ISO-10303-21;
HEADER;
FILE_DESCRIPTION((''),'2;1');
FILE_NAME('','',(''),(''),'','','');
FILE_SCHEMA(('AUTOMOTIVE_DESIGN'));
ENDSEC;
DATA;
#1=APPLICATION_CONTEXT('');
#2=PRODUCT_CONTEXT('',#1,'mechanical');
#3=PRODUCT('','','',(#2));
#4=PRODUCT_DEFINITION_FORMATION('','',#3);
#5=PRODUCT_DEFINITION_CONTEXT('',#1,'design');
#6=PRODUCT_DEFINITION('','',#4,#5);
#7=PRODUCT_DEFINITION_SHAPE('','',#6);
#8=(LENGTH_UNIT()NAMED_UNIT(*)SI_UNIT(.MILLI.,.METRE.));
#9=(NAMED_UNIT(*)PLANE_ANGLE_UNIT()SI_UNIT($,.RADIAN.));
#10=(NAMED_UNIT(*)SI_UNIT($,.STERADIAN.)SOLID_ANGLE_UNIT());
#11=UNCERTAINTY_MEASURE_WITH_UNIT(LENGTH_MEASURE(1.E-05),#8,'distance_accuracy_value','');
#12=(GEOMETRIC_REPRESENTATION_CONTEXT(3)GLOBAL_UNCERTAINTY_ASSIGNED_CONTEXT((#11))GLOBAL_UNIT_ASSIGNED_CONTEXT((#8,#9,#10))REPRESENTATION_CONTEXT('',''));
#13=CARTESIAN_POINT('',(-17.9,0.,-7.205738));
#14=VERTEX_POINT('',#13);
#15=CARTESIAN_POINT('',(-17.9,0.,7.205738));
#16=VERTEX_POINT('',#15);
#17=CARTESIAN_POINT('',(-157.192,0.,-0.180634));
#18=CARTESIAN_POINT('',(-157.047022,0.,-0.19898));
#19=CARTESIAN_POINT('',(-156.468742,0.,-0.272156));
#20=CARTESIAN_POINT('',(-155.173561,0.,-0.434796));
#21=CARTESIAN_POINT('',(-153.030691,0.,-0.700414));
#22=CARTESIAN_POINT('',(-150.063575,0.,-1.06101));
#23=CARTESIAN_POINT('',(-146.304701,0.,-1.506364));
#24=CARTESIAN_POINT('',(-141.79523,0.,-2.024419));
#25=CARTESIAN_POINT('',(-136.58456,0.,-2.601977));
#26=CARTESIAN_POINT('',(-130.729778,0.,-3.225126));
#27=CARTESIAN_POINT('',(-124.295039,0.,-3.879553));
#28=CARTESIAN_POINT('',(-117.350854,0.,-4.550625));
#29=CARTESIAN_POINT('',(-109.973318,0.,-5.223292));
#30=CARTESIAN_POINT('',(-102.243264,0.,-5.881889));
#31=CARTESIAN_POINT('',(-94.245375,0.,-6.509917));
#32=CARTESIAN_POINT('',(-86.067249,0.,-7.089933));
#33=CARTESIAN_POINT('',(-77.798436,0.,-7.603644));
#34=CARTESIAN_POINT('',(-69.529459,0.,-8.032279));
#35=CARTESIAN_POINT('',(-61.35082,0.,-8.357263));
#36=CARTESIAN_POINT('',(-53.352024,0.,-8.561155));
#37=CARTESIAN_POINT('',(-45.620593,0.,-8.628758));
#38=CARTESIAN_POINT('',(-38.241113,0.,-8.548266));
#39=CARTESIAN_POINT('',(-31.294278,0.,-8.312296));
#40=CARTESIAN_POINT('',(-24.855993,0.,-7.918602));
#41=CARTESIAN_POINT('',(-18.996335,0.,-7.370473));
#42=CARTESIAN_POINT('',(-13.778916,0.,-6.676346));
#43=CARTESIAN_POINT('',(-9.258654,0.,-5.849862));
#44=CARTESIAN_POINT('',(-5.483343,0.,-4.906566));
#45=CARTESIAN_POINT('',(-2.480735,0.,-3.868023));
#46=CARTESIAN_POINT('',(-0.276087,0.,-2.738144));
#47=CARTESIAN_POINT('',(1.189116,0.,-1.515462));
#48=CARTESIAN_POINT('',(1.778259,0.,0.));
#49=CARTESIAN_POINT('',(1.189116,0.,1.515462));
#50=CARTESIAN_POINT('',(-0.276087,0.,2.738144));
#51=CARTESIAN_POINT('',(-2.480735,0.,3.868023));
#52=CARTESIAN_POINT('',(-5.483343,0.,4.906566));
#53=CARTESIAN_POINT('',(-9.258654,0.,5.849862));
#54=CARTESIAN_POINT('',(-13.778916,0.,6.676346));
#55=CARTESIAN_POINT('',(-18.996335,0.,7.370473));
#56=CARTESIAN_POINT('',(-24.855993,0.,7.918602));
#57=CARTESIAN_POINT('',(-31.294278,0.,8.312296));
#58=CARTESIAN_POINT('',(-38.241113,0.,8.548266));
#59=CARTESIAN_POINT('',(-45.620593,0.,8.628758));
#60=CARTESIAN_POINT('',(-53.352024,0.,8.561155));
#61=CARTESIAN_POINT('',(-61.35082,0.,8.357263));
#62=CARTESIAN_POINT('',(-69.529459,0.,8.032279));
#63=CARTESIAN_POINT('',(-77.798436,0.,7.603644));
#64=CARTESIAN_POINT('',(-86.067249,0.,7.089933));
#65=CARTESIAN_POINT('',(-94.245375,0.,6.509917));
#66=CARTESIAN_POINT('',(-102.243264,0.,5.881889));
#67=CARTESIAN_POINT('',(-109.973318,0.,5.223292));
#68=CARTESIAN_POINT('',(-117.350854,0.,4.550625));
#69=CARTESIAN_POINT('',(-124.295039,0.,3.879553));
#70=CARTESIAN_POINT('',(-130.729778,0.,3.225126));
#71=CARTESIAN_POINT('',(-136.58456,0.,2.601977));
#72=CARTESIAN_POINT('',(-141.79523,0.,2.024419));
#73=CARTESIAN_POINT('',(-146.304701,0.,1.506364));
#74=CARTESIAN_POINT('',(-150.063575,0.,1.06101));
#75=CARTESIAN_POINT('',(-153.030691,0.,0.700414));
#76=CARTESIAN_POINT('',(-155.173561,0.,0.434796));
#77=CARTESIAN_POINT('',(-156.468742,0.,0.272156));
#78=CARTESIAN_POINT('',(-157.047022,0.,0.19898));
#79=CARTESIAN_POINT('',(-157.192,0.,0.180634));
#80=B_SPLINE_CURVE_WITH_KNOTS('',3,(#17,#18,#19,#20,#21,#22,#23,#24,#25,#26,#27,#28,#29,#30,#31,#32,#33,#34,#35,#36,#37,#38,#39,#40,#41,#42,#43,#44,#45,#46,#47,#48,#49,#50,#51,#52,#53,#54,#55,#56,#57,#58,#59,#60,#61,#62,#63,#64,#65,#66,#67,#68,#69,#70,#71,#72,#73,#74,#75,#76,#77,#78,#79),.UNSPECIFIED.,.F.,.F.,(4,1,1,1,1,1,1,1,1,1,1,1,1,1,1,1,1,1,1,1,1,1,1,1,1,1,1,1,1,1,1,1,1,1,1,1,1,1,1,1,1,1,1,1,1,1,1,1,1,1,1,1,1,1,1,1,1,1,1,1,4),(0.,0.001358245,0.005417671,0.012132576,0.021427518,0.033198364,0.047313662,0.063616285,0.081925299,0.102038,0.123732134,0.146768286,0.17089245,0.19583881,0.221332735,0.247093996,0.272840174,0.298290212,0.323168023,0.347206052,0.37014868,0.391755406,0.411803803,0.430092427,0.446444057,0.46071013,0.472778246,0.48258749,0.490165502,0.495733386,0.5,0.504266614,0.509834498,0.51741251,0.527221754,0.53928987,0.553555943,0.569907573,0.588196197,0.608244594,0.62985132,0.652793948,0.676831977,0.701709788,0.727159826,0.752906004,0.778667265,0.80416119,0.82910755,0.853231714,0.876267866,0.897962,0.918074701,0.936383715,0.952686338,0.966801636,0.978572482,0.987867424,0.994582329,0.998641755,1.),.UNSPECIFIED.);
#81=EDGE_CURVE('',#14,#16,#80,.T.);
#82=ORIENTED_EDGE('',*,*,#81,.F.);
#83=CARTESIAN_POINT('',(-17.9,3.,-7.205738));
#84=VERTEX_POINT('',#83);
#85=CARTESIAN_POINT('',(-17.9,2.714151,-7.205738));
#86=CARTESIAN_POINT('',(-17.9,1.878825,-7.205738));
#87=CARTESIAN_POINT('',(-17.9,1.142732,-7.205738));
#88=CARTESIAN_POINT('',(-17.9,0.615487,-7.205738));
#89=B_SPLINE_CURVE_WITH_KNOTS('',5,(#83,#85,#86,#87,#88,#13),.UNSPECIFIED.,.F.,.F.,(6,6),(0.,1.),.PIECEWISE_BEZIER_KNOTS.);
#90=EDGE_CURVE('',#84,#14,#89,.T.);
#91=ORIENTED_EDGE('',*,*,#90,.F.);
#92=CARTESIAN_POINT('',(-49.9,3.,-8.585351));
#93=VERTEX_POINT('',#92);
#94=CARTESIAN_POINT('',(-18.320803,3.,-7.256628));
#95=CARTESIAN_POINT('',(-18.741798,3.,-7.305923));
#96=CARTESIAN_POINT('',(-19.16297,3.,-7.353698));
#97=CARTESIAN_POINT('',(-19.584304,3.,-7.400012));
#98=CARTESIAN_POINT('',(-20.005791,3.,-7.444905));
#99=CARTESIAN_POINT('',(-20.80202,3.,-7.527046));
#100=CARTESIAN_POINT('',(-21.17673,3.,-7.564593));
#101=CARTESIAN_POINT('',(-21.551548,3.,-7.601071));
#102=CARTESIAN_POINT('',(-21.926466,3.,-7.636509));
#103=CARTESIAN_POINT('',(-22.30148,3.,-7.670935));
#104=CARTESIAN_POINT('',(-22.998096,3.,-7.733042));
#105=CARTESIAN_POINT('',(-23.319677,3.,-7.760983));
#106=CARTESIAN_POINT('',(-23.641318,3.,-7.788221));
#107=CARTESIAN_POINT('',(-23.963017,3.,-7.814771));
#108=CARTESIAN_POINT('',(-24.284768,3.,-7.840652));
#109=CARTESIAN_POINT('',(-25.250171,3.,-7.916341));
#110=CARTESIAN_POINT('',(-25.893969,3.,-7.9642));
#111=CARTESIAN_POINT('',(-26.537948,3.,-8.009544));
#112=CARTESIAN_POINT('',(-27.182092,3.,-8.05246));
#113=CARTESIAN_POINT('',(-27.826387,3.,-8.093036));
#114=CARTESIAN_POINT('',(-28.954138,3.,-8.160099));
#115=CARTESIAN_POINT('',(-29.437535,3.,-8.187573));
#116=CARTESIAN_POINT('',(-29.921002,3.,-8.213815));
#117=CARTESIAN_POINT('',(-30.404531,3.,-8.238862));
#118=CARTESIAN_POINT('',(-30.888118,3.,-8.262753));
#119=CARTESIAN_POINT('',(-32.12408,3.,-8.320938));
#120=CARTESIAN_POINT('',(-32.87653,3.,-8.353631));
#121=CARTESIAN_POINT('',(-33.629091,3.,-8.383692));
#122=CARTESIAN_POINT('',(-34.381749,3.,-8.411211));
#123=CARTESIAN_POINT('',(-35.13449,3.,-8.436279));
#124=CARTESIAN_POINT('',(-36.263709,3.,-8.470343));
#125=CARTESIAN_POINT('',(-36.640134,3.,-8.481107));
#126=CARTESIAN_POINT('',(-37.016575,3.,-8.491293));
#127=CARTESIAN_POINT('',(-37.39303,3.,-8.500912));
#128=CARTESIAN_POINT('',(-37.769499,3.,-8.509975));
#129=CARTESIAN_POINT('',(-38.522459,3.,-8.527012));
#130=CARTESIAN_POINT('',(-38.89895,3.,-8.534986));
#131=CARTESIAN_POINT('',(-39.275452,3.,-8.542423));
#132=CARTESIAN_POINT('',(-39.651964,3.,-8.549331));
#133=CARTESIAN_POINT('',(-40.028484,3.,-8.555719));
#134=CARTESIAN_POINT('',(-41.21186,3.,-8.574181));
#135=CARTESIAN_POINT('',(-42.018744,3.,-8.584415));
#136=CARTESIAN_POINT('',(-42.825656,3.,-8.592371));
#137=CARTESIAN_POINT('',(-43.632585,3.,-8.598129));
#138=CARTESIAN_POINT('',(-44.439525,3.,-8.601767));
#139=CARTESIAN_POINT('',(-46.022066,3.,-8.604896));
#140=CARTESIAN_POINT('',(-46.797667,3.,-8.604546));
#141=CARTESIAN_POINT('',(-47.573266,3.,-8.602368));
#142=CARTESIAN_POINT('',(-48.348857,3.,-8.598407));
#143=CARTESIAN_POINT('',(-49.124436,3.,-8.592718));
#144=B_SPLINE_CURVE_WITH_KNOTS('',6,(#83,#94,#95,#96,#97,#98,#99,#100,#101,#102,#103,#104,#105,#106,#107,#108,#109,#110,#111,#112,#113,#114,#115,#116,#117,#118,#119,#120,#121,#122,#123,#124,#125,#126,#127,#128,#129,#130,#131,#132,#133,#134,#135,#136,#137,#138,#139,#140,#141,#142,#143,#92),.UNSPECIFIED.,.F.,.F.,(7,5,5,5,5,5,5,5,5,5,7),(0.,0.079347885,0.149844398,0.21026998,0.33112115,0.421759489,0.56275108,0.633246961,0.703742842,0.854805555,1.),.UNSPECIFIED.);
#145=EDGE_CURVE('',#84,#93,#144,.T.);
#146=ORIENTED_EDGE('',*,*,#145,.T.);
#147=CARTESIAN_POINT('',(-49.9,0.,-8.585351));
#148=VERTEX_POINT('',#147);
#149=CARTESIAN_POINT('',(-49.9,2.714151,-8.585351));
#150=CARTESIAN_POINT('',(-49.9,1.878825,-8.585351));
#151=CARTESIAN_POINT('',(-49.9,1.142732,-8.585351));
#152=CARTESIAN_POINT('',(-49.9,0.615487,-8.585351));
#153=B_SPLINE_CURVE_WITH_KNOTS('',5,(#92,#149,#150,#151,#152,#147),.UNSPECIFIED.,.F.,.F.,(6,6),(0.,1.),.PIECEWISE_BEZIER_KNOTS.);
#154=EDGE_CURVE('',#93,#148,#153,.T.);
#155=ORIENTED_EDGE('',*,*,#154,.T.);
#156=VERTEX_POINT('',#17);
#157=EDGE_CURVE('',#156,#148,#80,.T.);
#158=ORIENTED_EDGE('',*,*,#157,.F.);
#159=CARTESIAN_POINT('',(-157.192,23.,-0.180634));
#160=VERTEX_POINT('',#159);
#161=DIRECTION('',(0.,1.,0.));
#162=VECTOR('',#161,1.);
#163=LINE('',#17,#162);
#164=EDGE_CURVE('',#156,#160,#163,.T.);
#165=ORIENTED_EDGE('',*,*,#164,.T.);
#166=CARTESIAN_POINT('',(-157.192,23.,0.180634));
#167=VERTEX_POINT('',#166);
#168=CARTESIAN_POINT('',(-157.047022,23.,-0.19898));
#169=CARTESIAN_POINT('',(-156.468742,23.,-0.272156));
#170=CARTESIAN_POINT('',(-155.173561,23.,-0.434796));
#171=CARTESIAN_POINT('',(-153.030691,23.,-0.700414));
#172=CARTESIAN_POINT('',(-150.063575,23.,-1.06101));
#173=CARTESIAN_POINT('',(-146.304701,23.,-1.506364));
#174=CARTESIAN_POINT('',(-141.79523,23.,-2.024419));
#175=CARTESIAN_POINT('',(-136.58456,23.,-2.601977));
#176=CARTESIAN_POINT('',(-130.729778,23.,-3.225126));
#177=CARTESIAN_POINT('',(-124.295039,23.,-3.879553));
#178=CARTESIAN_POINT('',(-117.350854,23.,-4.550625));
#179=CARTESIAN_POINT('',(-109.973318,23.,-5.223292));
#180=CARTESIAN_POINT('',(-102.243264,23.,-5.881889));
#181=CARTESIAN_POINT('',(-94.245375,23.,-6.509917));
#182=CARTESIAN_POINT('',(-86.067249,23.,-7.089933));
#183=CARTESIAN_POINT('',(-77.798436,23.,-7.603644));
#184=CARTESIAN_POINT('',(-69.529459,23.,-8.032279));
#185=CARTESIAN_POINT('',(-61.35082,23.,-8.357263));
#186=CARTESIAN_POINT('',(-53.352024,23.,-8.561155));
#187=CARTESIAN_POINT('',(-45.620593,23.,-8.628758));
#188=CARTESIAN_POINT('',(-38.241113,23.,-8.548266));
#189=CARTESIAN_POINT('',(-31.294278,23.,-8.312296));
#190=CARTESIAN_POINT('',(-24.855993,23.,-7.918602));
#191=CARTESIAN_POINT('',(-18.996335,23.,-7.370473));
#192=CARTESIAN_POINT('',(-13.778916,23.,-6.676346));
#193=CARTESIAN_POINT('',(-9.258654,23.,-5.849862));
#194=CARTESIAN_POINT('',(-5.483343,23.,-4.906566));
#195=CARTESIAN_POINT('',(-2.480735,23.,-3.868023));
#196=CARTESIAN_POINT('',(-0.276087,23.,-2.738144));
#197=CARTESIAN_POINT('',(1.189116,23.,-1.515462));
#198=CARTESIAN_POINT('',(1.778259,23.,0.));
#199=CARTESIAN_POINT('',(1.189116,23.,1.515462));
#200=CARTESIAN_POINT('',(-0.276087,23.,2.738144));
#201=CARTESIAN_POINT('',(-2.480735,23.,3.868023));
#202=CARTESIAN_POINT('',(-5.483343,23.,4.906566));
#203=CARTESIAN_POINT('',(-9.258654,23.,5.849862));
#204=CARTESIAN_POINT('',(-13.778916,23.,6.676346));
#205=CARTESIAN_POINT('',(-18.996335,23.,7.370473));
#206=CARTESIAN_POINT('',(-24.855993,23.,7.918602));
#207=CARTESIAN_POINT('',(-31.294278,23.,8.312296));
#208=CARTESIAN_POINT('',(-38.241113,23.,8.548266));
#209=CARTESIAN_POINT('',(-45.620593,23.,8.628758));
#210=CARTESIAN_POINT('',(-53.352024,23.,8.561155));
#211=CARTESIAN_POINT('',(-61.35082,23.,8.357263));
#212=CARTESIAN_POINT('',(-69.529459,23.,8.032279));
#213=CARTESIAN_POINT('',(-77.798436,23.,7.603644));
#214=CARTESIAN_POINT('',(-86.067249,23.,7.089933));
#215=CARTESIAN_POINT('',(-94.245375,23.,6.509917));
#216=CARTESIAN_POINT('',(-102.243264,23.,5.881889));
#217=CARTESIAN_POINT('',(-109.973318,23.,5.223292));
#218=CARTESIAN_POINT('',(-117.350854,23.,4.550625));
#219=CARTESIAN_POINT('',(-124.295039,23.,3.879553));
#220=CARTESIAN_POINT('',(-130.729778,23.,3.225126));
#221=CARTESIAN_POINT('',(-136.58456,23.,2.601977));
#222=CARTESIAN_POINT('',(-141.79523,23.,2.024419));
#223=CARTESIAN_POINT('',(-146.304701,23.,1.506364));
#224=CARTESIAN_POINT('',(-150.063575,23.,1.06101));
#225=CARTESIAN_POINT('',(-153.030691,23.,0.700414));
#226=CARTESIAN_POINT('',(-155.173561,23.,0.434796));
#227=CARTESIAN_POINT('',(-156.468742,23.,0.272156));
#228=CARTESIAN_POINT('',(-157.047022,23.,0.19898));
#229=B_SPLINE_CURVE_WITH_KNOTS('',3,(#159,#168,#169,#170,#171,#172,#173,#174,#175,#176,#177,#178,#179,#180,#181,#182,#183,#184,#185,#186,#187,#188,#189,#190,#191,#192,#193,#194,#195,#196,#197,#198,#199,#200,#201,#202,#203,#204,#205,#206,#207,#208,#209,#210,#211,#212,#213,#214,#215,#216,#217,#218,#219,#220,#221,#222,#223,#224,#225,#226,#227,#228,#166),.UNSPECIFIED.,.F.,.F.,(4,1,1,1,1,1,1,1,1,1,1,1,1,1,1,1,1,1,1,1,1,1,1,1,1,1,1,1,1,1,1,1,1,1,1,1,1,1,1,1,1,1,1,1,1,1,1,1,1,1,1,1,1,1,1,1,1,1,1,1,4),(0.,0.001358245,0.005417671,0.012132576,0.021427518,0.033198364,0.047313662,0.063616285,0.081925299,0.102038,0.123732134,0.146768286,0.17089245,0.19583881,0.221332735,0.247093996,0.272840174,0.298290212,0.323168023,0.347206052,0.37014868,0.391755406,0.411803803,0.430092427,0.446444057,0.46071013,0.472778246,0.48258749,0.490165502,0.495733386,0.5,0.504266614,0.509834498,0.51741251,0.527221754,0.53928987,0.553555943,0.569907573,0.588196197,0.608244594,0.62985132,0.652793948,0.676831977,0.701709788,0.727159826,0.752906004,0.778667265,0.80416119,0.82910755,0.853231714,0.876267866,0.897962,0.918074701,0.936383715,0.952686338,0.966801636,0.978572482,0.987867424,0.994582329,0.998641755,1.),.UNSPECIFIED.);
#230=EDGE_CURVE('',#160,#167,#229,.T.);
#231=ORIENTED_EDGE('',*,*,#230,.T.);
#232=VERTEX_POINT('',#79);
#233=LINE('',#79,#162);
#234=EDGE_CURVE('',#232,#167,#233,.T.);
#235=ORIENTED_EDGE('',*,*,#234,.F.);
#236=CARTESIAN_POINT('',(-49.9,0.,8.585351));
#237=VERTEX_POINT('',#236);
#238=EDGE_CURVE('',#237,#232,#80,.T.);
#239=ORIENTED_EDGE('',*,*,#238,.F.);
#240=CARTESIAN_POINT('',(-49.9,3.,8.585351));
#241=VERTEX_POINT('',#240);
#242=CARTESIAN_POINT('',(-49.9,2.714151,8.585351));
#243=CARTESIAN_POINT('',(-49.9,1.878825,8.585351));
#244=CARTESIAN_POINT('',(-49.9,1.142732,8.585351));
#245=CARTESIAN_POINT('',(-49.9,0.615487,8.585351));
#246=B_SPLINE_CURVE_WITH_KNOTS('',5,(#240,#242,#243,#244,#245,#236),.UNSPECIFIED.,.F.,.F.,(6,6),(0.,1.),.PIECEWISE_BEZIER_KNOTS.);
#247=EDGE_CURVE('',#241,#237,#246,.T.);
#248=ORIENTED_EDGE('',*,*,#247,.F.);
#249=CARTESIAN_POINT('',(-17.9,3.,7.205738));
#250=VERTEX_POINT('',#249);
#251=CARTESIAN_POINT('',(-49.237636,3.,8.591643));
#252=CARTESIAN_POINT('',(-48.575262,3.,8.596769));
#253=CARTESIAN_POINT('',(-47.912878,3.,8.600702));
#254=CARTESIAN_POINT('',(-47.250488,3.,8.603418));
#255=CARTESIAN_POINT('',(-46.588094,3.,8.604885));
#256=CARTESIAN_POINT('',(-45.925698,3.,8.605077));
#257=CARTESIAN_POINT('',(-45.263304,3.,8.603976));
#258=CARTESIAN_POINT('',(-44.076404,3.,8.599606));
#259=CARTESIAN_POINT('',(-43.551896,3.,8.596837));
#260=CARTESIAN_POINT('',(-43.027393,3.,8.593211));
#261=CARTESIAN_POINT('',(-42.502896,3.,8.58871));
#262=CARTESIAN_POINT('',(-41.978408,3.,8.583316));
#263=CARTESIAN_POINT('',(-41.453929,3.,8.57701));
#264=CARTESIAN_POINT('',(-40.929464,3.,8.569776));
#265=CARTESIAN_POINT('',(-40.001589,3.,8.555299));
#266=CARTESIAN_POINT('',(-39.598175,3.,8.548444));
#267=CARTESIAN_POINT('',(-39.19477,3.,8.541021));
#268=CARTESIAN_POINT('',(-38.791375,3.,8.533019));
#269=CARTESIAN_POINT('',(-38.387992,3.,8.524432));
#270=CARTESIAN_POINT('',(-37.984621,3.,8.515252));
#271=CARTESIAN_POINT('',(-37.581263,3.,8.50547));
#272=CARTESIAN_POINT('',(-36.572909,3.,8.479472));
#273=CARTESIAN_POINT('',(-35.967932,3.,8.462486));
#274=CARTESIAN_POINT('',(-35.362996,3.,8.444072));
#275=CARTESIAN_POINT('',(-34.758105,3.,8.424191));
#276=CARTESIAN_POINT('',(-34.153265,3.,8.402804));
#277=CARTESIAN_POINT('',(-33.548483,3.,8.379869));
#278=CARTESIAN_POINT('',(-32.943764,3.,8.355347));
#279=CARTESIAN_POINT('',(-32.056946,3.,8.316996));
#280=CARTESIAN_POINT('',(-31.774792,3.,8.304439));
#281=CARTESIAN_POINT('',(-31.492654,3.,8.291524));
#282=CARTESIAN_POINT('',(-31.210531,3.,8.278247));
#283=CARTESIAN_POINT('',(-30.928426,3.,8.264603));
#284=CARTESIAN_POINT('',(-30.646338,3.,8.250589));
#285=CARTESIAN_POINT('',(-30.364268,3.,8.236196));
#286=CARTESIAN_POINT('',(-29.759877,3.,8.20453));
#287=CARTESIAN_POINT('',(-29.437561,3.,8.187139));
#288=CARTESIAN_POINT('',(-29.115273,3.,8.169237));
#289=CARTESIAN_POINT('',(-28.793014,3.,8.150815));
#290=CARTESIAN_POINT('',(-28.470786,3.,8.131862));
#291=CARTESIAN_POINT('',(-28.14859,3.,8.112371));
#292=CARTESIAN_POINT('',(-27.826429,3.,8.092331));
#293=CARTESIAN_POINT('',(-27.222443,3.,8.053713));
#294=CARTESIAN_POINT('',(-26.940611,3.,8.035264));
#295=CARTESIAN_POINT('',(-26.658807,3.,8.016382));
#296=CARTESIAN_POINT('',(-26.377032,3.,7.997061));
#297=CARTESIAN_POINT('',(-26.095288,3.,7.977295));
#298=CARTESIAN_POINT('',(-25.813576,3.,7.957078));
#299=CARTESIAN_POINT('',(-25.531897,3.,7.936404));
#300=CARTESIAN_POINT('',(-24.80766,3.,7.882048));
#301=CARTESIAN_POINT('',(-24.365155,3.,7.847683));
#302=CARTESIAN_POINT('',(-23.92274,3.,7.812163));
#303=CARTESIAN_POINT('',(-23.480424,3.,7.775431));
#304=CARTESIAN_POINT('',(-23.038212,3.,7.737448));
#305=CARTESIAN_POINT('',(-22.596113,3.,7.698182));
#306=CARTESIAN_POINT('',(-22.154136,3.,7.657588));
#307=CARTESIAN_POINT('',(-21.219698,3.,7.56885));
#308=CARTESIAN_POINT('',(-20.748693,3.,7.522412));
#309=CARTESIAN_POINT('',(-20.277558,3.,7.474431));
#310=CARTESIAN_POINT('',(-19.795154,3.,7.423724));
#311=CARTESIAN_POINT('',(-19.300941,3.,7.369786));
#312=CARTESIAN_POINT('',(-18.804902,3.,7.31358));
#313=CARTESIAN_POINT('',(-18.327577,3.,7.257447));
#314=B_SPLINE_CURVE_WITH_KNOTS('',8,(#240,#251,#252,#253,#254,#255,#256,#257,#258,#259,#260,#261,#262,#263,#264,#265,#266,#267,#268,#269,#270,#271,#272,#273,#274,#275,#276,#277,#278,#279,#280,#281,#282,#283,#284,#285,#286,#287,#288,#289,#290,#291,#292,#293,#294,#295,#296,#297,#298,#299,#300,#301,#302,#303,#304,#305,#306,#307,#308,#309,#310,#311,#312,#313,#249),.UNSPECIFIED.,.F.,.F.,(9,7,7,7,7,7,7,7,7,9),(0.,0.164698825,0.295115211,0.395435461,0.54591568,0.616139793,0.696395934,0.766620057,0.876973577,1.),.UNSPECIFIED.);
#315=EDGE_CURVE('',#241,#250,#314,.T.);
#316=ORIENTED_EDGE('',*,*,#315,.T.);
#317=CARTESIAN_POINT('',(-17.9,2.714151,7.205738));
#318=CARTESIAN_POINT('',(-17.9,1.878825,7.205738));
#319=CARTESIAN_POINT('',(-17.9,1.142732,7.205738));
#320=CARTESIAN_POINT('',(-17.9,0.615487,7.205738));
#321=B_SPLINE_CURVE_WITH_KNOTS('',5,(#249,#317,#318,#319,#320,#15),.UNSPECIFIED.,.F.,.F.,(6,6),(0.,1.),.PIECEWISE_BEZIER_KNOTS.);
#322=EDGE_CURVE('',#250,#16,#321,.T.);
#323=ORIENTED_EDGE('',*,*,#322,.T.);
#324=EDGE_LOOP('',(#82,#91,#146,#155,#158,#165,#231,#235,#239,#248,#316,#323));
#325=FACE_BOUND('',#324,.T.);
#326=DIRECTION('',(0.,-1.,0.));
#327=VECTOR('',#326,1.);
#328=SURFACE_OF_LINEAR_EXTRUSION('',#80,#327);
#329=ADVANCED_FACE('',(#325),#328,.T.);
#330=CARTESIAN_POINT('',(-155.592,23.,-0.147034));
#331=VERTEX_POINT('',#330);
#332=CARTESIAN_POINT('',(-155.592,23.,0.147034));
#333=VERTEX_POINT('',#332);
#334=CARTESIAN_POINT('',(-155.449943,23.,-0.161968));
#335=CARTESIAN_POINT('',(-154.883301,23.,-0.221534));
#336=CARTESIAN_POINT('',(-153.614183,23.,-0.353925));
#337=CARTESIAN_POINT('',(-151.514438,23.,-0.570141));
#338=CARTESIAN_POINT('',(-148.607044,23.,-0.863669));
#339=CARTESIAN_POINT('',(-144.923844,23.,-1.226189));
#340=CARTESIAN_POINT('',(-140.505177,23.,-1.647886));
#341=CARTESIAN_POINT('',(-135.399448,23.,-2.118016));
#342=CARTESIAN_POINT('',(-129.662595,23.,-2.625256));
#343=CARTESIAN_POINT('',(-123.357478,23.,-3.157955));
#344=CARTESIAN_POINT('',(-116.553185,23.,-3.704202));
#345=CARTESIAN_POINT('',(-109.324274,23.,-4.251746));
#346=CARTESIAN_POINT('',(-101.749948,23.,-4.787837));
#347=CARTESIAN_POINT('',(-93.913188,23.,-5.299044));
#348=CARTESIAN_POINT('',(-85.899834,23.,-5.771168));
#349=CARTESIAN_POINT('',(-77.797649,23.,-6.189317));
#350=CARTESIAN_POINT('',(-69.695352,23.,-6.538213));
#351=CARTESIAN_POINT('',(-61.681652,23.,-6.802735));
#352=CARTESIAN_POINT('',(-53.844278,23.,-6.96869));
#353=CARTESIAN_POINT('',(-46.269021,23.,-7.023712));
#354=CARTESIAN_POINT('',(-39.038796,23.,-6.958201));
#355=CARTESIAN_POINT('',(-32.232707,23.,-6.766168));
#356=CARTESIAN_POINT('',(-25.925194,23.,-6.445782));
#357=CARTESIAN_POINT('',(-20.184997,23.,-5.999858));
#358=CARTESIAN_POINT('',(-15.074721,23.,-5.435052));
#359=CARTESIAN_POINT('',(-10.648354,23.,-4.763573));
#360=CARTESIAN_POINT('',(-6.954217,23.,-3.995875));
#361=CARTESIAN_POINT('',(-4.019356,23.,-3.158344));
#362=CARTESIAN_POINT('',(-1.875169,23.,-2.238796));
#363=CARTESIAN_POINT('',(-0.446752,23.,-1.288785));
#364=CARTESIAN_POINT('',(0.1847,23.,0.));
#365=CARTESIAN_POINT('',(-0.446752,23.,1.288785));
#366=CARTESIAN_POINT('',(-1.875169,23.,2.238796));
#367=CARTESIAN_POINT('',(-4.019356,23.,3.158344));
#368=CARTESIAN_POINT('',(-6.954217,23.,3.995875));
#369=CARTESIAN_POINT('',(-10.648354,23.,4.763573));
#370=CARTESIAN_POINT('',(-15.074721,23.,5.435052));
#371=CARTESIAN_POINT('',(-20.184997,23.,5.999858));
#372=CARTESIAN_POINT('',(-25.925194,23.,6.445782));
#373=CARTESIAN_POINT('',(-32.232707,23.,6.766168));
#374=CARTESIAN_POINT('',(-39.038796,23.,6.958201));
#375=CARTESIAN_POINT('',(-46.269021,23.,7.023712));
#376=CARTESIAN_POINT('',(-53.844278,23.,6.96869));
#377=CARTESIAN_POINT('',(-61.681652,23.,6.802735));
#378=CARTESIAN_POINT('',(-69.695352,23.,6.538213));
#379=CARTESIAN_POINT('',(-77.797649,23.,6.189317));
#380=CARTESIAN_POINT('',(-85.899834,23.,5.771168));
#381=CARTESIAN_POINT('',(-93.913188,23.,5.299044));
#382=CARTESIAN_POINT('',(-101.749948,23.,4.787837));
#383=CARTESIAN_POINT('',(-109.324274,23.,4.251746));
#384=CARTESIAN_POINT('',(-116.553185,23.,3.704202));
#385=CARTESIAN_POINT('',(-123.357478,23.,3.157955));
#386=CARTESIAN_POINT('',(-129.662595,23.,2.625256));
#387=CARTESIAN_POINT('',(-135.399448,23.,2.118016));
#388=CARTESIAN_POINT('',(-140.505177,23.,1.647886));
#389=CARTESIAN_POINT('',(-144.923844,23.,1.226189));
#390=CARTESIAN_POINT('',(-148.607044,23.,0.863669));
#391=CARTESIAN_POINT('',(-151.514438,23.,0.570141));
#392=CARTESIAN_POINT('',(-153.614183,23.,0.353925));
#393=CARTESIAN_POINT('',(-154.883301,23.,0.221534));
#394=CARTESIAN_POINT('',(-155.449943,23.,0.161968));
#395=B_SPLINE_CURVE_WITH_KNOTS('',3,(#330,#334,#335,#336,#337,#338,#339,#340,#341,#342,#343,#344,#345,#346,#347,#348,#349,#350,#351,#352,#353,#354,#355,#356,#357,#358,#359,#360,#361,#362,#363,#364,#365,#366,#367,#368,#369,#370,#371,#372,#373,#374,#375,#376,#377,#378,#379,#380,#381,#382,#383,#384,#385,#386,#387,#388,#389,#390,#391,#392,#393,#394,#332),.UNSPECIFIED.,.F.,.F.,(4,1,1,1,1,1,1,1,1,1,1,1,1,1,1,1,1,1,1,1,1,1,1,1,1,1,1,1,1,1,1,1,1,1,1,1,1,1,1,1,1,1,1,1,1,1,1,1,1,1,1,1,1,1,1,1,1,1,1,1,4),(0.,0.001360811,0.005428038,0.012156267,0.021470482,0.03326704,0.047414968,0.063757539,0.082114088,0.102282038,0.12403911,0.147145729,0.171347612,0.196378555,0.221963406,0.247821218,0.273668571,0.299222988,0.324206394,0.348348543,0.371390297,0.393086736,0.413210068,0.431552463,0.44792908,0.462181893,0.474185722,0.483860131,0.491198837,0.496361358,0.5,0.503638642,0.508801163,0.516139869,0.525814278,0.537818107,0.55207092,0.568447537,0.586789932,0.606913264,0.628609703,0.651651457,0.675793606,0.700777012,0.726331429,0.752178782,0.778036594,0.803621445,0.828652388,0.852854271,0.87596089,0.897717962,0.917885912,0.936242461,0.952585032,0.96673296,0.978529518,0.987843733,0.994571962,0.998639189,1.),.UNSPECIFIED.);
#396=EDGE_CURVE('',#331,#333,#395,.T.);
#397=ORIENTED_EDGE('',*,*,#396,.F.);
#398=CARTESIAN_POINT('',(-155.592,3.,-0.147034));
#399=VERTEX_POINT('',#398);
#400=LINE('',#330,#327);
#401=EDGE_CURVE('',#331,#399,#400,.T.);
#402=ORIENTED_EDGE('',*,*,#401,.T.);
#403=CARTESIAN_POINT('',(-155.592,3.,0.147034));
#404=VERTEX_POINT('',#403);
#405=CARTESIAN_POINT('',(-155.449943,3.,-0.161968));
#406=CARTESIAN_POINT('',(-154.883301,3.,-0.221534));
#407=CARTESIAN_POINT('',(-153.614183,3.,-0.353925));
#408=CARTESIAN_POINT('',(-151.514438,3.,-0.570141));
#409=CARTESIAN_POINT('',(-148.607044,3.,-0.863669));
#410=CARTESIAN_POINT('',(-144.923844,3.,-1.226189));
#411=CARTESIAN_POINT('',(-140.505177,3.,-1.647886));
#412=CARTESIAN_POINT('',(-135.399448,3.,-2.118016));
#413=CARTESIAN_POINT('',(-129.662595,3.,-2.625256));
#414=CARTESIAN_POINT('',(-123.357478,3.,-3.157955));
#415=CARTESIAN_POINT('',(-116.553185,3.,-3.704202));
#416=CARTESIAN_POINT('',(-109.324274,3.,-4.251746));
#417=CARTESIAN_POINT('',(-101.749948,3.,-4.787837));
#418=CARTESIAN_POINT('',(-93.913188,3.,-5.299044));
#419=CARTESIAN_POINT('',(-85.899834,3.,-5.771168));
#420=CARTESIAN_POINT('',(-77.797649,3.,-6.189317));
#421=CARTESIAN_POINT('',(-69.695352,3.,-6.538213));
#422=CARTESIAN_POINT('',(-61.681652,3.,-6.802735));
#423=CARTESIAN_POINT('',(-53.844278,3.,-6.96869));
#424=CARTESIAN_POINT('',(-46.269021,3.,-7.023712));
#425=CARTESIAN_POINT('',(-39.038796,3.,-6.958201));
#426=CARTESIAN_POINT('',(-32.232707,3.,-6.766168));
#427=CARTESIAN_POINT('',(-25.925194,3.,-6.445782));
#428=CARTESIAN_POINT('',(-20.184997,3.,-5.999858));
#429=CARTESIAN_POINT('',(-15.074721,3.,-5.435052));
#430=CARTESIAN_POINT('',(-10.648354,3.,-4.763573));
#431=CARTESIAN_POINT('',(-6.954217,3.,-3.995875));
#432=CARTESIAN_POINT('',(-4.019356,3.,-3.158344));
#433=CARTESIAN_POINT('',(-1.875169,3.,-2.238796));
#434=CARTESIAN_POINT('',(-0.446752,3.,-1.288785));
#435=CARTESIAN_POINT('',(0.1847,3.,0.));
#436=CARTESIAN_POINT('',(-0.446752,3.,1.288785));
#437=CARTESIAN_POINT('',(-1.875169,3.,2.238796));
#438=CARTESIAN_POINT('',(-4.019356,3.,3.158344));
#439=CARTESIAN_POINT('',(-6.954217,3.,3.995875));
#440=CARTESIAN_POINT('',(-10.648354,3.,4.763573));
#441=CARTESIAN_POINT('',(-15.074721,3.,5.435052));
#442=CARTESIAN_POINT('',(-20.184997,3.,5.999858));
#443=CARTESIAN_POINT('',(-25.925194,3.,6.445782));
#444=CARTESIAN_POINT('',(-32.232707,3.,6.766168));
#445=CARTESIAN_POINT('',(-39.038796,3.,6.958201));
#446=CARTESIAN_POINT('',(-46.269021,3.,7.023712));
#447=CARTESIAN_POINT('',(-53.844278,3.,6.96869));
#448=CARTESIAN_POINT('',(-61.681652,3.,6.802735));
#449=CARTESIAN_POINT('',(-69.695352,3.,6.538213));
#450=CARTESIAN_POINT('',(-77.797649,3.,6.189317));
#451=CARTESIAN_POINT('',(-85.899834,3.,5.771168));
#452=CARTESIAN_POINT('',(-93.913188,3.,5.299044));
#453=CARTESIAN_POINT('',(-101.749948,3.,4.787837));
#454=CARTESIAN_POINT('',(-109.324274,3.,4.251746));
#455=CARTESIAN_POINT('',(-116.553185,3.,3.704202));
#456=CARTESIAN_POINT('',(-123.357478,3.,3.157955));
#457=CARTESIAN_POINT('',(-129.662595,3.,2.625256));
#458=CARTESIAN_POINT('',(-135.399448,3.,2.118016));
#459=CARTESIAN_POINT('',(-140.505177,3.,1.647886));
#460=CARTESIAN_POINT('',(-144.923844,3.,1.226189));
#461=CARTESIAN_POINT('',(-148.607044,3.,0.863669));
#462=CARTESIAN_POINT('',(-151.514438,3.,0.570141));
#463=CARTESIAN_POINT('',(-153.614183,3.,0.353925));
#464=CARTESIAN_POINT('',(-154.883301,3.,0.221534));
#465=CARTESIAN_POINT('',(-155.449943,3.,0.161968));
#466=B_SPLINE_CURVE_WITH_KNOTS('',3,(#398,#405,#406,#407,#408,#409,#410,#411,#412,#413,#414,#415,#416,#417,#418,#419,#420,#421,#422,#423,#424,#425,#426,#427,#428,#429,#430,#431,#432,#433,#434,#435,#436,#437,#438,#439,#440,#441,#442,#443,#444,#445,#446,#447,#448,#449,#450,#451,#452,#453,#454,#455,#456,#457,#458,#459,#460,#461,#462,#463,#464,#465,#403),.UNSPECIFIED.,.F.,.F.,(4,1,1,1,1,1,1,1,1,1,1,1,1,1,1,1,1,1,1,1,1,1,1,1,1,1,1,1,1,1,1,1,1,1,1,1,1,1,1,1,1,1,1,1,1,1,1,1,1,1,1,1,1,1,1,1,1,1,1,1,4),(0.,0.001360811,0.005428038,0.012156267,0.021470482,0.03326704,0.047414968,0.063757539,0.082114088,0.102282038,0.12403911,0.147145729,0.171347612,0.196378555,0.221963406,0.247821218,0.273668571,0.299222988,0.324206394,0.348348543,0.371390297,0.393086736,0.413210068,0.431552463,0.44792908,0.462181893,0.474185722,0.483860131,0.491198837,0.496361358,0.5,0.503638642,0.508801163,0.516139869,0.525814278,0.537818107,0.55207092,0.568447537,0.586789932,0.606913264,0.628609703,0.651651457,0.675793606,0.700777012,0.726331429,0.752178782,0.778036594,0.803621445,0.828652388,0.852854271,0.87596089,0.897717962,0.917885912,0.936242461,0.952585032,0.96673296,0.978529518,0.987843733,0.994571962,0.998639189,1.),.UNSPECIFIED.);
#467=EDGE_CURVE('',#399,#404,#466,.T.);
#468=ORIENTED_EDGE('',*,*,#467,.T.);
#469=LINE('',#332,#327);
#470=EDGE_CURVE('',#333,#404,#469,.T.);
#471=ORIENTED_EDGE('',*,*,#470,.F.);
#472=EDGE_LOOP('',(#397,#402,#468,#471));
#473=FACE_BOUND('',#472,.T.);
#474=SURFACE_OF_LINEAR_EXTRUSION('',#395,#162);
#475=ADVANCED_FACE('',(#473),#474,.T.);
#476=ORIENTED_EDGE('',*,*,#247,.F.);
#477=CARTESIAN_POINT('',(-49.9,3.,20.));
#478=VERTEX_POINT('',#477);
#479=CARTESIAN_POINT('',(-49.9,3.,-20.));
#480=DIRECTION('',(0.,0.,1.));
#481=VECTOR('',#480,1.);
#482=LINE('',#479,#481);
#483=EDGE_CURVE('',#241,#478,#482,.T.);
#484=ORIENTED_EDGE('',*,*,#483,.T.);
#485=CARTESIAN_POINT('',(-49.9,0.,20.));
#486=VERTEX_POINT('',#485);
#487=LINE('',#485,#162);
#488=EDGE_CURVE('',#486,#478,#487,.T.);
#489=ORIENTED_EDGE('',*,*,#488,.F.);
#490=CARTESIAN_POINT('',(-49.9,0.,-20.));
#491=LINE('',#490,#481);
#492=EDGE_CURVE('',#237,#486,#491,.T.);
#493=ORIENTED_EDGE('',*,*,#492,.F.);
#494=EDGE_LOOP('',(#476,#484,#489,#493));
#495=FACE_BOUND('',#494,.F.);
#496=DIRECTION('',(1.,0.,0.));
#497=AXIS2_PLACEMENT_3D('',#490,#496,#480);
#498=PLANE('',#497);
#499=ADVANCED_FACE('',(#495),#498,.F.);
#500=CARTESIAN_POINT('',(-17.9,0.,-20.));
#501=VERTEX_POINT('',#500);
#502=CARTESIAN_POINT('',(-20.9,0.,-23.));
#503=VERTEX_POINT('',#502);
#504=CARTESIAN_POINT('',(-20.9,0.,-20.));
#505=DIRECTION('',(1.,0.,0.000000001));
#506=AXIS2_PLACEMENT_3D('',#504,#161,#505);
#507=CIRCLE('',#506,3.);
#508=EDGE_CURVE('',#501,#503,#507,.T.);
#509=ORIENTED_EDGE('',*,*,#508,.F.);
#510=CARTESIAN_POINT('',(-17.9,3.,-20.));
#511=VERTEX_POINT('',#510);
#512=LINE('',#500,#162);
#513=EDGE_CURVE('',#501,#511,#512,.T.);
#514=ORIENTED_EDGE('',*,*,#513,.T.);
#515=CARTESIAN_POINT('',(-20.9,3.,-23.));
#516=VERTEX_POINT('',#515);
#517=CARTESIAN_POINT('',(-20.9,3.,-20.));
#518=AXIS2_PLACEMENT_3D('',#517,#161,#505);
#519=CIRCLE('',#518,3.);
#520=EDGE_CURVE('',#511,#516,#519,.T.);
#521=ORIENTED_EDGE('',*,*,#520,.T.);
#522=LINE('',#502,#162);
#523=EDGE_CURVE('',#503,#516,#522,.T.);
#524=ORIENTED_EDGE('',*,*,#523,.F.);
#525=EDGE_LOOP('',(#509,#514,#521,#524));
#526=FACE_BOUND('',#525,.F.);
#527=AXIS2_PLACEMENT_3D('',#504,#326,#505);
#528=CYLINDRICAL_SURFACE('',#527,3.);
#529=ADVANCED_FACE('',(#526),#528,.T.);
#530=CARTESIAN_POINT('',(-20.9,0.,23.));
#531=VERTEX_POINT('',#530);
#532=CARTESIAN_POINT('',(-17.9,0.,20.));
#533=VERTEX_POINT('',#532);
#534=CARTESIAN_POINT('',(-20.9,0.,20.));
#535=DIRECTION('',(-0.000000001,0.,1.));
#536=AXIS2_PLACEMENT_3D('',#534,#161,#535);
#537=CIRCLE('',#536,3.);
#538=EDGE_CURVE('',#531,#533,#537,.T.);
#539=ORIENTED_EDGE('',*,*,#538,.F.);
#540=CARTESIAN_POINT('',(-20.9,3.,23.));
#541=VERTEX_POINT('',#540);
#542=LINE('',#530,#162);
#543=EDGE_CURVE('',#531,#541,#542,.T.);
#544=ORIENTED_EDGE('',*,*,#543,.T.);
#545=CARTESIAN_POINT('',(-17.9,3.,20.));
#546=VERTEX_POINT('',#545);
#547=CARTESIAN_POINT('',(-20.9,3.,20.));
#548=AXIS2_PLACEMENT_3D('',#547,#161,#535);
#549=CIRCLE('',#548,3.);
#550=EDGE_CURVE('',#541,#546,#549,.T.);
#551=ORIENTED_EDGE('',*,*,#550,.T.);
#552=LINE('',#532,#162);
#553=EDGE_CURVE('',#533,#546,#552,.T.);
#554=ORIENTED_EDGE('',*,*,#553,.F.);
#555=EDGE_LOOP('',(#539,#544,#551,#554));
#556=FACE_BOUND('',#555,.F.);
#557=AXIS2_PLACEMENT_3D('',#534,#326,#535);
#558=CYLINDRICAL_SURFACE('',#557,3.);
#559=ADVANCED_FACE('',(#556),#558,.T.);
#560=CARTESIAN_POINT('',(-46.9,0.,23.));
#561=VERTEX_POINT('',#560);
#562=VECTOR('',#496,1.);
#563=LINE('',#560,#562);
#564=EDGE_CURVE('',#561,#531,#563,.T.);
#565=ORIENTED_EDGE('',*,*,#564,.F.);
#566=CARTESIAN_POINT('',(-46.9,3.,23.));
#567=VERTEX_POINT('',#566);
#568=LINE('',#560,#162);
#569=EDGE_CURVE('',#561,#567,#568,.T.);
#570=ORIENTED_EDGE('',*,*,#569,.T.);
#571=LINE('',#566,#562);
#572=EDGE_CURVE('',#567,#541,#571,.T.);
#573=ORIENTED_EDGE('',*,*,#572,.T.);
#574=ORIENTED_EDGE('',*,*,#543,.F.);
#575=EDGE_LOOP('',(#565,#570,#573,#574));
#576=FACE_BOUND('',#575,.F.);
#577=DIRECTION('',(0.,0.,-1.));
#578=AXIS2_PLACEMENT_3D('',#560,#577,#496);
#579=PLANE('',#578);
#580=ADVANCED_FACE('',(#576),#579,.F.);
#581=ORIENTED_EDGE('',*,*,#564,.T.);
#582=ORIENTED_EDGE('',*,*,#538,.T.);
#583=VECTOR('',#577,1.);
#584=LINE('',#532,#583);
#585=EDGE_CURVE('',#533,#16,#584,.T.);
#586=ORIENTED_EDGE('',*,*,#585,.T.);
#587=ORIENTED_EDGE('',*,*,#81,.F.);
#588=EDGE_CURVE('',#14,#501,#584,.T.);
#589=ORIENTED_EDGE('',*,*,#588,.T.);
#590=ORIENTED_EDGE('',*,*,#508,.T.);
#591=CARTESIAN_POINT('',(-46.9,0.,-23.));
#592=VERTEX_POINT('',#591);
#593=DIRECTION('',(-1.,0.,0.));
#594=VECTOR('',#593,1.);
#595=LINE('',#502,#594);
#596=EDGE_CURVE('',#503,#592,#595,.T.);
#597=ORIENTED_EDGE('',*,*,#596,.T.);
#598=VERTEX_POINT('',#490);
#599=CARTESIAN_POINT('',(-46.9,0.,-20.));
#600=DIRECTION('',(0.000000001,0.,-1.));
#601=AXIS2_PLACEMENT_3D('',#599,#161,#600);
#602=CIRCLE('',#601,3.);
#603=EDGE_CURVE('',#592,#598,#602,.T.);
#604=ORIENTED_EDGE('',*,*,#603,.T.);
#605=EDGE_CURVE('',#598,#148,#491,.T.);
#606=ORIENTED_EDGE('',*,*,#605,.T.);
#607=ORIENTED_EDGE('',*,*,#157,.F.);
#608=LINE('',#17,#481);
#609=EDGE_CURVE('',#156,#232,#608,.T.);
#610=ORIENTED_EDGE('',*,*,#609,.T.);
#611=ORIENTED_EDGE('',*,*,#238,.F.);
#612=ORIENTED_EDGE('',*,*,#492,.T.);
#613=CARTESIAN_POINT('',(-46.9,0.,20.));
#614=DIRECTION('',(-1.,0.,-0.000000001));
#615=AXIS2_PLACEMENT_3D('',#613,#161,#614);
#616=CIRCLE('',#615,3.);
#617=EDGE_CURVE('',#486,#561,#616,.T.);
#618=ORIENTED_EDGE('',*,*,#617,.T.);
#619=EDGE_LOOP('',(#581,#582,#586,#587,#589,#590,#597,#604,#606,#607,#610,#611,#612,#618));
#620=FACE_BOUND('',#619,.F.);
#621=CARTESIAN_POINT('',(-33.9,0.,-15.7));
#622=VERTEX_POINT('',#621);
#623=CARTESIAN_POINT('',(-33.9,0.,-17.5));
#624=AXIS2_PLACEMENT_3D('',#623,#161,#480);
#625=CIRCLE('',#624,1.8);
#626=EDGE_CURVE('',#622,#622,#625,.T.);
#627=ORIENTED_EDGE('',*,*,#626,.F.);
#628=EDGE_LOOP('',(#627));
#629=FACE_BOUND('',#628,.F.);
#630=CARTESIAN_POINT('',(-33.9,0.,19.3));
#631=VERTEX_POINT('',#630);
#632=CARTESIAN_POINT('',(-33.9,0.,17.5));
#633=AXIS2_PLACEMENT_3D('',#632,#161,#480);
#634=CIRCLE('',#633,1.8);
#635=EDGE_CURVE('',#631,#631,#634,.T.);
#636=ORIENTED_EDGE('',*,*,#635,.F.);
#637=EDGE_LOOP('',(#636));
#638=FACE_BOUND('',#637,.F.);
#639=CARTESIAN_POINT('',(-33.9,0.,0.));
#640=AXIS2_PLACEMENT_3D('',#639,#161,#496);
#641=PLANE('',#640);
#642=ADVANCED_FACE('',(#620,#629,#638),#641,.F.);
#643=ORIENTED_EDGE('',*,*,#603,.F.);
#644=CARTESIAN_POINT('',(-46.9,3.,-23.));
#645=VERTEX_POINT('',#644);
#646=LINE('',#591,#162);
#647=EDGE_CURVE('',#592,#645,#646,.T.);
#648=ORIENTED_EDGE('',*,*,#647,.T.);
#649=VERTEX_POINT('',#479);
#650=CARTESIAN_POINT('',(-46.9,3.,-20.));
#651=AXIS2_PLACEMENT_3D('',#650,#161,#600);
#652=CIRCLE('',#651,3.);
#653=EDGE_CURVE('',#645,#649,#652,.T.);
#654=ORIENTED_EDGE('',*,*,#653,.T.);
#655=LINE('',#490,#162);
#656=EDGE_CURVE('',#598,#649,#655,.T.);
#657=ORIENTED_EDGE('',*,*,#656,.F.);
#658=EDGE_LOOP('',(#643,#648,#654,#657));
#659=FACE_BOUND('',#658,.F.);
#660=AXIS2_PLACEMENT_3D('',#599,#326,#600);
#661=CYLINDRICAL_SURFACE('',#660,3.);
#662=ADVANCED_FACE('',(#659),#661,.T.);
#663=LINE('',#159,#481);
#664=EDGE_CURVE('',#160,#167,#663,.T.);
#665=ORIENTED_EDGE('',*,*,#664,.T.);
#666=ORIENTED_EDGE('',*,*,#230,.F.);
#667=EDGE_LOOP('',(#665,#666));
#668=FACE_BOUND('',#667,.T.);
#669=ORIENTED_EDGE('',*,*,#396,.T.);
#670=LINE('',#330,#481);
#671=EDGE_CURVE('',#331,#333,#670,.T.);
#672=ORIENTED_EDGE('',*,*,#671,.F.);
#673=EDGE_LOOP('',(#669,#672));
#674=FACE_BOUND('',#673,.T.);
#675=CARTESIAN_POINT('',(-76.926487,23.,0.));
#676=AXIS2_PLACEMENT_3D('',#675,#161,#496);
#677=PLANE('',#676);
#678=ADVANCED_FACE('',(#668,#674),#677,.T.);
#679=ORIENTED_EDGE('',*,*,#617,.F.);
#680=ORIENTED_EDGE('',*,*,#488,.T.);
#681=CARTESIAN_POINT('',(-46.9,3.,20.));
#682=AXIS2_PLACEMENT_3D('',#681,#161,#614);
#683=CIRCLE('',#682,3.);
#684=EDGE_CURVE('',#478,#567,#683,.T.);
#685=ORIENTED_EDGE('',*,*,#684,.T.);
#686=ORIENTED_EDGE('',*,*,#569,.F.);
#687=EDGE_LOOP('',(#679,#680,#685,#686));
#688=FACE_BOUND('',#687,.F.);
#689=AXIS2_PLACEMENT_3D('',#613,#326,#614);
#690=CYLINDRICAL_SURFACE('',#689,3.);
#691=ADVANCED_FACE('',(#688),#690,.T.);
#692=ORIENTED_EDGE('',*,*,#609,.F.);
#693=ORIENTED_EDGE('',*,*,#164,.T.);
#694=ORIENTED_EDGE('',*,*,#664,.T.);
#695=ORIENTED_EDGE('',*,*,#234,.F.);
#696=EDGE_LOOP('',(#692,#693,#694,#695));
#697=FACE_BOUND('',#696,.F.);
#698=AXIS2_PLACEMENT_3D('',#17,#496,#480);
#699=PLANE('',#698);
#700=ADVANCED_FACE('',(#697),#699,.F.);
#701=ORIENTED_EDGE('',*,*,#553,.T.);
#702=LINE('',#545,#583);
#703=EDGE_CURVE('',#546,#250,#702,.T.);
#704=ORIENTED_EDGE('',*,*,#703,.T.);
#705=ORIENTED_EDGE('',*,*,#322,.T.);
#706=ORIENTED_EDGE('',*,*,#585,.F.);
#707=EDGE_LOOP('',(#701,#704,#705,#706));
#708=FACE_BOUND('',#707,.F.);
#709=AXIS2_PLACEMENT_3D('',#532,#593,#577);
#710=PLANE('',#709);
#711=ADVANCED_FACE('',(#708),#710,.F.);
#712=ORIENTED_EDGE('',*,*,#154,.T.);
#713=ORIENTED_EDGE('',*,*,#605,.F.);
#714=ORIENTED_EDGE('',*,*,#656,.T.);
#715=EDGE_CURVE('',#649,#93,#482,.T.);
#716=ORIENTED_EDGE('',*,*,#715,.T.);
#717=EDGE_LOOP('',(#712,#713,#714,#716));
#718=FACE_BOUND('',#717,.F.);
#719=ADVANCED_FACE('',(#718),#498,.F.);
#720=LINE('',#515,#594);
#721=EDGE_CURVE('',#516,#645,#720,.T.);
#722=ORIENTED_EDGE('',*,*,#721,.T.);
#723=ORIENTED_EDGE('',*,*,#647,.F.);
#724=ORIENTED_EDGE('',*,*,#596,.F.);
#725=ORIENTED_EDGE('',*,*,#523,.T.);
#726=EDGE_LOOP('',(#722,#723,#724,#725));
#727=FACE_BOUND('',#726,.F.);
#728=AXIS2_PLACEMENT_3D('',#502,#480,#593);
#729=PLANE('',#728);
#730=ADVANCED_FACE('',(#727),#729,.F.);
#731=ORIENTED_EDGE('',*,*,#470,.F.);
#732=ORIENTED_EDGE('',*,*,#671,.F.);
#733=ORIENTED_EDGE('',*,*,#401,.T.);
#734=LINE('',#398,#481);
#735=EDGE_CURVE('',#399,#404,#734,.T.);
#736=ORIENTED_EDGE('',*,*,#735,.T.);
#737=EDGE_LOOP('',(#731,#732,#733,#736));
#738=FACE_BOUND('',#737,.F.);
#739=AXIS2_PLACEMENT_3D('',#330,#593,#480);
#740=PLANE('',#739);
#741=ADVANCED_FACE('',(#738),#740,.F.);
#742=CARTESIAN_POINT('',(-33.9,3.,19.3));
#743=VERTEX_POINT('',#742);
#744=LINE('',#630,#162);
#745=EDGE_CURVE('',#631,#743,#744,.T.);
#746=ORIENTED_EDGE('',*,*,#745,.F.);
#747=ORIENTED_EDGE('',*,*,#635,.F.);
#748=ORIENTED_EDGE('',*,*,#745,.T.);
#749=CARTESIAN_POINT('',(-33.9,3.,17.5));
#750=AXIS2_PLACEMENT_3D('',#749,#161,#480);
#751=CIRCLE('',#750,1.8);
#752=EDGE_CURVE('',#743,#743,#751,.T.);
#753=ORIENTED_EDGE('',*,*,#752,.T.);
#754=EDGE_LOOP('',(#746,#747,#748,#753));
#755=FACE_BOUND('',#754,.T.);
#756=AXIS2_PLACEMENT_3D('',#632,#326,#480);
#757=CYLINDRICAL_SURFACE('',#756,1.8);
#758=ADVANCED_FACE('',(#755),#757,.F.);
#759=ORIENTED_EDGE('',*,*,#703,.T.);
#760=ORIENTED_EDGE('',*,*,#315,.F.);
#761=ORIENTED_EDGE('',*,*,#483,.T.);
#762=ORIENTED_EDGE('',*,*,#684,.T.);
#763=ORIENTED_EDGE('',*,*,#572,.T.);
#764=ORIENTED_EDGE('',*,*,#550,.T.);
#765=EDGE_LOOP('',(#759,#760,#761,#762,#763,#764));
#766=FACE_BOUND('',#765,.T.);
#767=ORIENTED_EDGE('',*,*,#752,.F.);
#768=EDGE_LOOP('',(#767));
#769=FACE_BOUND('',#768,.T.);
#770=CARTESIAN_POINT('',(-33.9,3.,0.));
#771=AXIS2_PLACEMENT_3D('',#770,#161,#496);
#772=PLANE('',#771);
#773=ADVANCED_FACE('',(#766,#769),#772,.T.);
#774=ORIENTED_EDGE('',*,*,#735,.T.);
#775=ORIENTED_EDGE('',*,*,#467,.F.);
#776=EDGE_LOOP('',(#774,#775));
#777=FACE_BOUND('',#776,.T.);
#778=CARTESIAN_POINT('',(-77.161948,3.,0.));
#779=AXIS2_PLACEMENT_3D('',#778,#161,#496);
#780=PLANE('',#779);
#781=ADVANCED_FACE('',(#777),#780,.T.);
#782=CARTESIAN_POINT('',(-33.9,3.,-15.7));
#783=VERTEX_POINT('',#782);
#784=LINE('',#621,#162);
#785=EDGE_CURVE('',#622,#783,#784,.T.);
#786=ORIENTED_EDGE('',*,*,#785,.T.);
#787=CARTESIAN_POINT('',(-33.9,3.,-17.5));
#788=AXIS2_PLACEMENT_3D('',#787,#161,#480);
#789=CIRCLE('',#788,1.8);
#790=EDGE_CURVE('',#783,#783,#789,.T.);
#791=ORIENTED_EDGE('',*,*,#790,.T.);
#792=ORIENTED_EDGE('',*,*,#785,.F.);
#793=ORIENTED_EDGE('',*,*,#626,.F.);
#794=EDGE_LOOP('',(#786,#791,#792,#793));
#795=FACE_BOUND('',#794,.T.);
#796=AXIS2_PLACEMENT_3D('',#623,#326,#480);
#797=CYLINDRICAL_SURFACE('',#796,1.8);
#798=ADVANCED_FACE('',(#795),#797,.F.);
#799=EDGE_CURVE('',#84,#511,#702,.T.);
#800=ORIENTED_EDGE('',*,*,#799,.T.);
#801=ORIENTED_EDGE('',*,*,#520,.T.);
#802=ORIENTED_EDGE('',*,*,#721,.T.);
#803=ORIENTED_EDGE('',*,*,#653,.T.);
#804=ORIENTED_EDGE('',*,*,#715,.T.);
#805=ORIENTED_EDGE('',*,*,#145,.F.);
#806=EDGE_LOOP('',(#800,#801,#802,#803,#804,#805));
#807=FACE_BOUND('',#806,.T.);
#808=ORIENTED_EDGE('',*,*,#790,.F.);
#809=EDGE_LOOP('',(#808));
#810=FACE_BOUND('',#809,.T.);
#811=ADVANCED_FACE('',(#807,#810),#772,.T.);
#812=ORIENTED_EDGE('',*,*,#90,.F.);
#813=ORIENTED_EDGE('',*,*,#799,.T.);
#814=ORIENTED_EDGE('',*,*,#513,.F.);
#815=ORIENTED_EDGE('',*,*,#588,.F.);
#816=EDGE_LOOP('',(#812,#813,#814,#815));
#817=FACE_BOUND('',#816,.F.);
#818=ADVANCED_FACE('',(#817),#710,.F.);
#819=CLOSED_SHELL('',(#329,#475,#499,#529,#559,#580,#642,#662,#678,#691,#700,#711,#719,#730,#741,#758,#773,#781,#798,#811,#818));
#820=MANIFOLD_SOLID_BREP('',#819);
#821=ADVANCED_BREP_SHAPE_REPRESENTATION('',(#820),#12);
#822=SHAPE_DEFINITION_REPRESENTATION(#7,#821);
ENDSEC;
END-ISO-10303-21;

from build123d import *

# Parameters (mm, degrees)
BOSS_EXTRUDE1_DEPTH = 23
BOSS_EXTRUDE2_DEPTH = 3
CUT_EXTRUDE1_DEPTH  = 20
SKETCH4_R           = 1.8
CUT_EXTRUDE2_DEPTH  = 3


with BuildPart() as part:
    # Sketch1 → Boss-Extrude1 (new body)
    with BuildSketch(Plane(origin=(0, 0, 0), x_dir=(1, 0, 0), z_dir=(0, 1, 0))):
        with BuildLine():
            Line((-157.192, 0.18063444), (-157.192, -0.18063444))
            add(Edge.make_bspline(
                [(-157.192, 0.18063444), (-157.047021594, 0.198980184), (-156.468742019, 0.272156386), (-155.173560807, 0.434796155), (-153.030691458, 0.700413761), (-150.063574609, 1.061009797), (-146.304700608, 1.506363727), (-141.795230181, 2.024419489), (-136.584560061, 2.601976702), (-130.729778213, 3.225125798), (-124.295038634, 3.879553472), (-117.350854019, 4.550624951), (-109.973317818, 5.22329222), (-102.243264033, 5.8818892), (-94.245375183, 6.509917176), (-86.067249162, 7.089933011), (-77.798436348, 7.603643728), (-69.529458512, 8.032278874), (-61.35082044, 8.357263342), (-53.352024309, 8.561155263), (-45.620593132, 8.628758011), (-38.241112674, 8.548266478), (-31.294277773, 8.312296436), (-24.855993258, 7.918602346), (-18.996334865, 7.370472964), (-13.778916, 6.676345659), (-9.25865361, 5.849862158), (-5.4833427, 4.906565956), (-2.480734642, 3.868023169), (-0.276087031, 2.738144074), (1.189115548, 1.515461858), (1.778258751, 0), (1.189115548, -1.515461858), (-0.276087031, -2.738144074), (-2.480734642, -3.868023169), (-5.4833427, -4.906565956), (-9.25865361, -5.849862158), (-13.778916, -6.676345659), (-18.996334865, -7.370472964), (-24.855993258, -7.918602346), (-31.294277773, -8.312296436), (-38.241112674, -8.548266478), (-45.620593132, -8.628758011), (-53.352024309, -8.561155263), (-61.35082044, -8.357263342), (-69.529458512, -8.032278874), (-77.798436348, -7.603643728), (-86.067249162, -7.089933011), (-94.245375183, -6.509917176), (-102.243264033, -5.8818892), (-109.973317818, -5.22329222), (-117.350854019, -4.550624951), (-124.295038634, -3.879553472), (-130.729778213, -3.225125798), (-136.584560061, -2.601976702), (-141.795230181, -2.024419489), (-146.304700608, -1.506363727), (-150.063574609, -1.061009797), (-153.030691458, -0.700413761), (-155.173560807, -0.434796155), (-156.468742019, -0.272156386), (-157.047021594, -0.198980184), (-157.192, -0.18063444)],
                knots=[0, 0, 0, 0, 0.001358245, 0.005417671, 0.012132576, 0.021427518, 0.033198364, 0.047313662, 0.063616285, 0.081925299, 0.102038, 0.123732134, 0.146768286, 0.17089245, 0.19583881, 0.221332735, 0.247093996, 0.272840174, 0.298290212, 0.323168023, 0.347206052, 0.37014868, 0.391755406, 0.411803803, 0.430092427, 0.446444057, 0.46071013, 0.472778246, 0.48258749, 0.490165502, 0.495733386, 0.5, 0.504266614, 0.509834498, 0.51741251, 0.527221754, 0.53928987, 0.553555943, 0.569907573, 0.588196197, 0.608244594, 0.62985132, 0.652793948, 0.676831977, 0.701709788, 0.727159826, 0.752906004, 0.778667265, 0.80416119, 0.82910755, 0.853231714, 0.876267866, 0.897962, 0.918074701, 0.936383715, 0.952686338, 0.966801636, 0.978572482, 0.987867424, 0.994582329, 0.998641755, 1, 1, 1, 1], degree=3))
        make_face()
    extrude(amount=BOSS_EXTRUDE1_DEPTH)

    # Sketch2 → Boss-Extrude2 (add)
    with BuildSketch(Plane(origin=(0, 0, 0), x_dir=(1, 0, 0), z_dir=(0, 1, 0))):
        with BuildLine():
            Line((-46.9, -23), (-20.9, -23))
            ThreePointArc((-20.9, -23), (-18.778679656, -22.121320344), (-17.9, -20))
            Line((-17.9, -20), (-17.9, 20))
            ThreePointArc((-17.9, 20), (-18.778679656, 22.121320344), (-20.9, 23))
            Line((-20.9, 23), (-46.9, 23))
            ThreePointArc((-46.9, 23), (-49.021320344, 22.121320344), (-49.9, 20))
            Line((-49.9, 20), (-49.9, -20))
            ThreePointArc((-49.9, -20), (-49.021320344, -22.121320344), (-46.9, -23))
        make_face()
    extrude(amount=BOSS_EXTRUDE2_DEPTH)

    # Sketch3 → Cut-Extrude1 (cut)
    with BuildSketch(Plane(origin=(0, 23, 0), x_dir=(1, 0, 0), z_dir=(0, 1, 0))):
        with BuildLine():
            Line((-155.592, 0.14703444), (-155.592, -0.14703444))
            add(Edge.make_bspline(
                [(-155.592, 0.14703444), (-155.449942782, 0.161967719), (-154.883301329, 0.221533963), (-153.614183427, 0.353924802), (-151.51443766, 0.57014063), (-148.607044046, 0.863668605), (-144.923844343, 1.226188564), (-140.505177309, 1.647886174), (-135.399448021, 2.118016105), (-129.662595094, 2.625256057), (-123.357477981, 3.157955349), (-116.553185242, 3.704201703), (-109.324273932, 4.251746367), (-101.749948331, 4.787837241), (-93.913187842, 5.299044128), (-85.899834249, 5.771167787), (-77.797649117, 6.189317139), (-69.69535233, 6.538212785), (-61.68165233, 6.802735443), (-53.844278358, 6.968689938), (-46.269021341, 7.02371248), (-39.038796032, 6.95820084), (-32.232707319, 6.766167963), (-25.925193755, 6.445782458), (-20.184996543, 5.9998575), (-15.07472053, 5.435051523), (-10.648353639, 4.763572803), (-6.954217344, 3.995875481), (-4.019355998, 3.158344263), (-1.875169029, 2.238795554), (-0.446752124, 1.288785144), (0.184699549, 0), (-0.446752124, -1.288785144), (-1.875169029, -2.238795554), (-4.019355998, -3.158344263), (-6.954217344, -3.995875481), (-10.648353639, -4.763572803), (-15.07472053, -5.435051523), (-20.184996543, -5.9998575), (-25.925193755, -6.445782458), (-32.232707319, -6.766167963), (-39.038796032, -6.95820084), (-46.269021341, -7.02371248), (-53.844278358, -6.968689938), (-61.68165233, -6.802735443), (-69.69535233, -6.538212785), (-77.797649117, -6.189317139), (-85.899834249, -5.771167787), (-93.913187842, -5.299044128), (-101.749948331, -4.787837241), (-109.324273932, -4.251746367), (-116.553185242, -3.704201703), (-123.357477981, -3.157955349), (-129.662595094, -2.625256057), (-135.399448021, -2.118016105), (-140.505177309, -1.647886174), (-144.923844343, -1.226188564), (-148.607044046, -0.863668605), (-151.51443766, -0.57014063), (-153.614183427, -0.353924802), (-154.883301329, -0.221533963), (-155.449942782, -0.161967719), (-155.592, -0.14703444)],
                knots=[0, 0, 0, 0, 0.001360811, 0.005428038, 0.012156267, 0.021470482, 0.03326704, 0.047414968, 0.063757539, 0.082114088, 0.102282038, 0.12403911, 0.147145729, 0.171347612, 0.196378555, 0.221963406, 0.247821218, 0.273668571, 0.299222988, 0.324206394, 0.348348543, 0.371390297, 0.393086736, 0.413210068, 0.431552463, 0.44792908, 0.462181893, 0.474185722, 0.483860131, 0.491198837, 0.496361358, 0.5, 0.503638642, 0.508801163, 0.516139869, 0.525814278, 0.537818107, 0.55207092, 0.568447537, 0.586789932, 0.606913264, 0.628609703, 0.651651457, 0.675793606, 0.700777012, 0.726331429, 0.752178782, 0.778036594, 0.803621445, 0.828652388, 0.852854271, 0.87596089, 0.897717962, 0.917885912, 0.936242461, 0.952585032, 0.96673296, 0.978529518, 0.987843733, 0.994571962, 0.998639189, 1, 1, 1, 1], degree=3))
        make_face()
    extrude(amount=-CUT_EXTRUDE1_DEPTH, mode=Mode.SUBTRACT)

    # Sketch4 → Cut-Extrude2 (cut)
    with BuildSketch(Plane(origin=(0, 0, 0), x_dir=(1, 0, 0), z_dir=(0, 1, 0))):
        with Locations(Location((-33.9, -17.5, 0), (0, 0, 270))):
            Circle(SKETCH4_R)
        with Locations(Location((-33.9, 17.5, 0), (0, 0, 270))):
            Circle(SKETCH4_R)
    extrude(amount=CUT_EXTRUDE2_DEPTH, mode=Mode.SUBTRACT)


solid = part.part
